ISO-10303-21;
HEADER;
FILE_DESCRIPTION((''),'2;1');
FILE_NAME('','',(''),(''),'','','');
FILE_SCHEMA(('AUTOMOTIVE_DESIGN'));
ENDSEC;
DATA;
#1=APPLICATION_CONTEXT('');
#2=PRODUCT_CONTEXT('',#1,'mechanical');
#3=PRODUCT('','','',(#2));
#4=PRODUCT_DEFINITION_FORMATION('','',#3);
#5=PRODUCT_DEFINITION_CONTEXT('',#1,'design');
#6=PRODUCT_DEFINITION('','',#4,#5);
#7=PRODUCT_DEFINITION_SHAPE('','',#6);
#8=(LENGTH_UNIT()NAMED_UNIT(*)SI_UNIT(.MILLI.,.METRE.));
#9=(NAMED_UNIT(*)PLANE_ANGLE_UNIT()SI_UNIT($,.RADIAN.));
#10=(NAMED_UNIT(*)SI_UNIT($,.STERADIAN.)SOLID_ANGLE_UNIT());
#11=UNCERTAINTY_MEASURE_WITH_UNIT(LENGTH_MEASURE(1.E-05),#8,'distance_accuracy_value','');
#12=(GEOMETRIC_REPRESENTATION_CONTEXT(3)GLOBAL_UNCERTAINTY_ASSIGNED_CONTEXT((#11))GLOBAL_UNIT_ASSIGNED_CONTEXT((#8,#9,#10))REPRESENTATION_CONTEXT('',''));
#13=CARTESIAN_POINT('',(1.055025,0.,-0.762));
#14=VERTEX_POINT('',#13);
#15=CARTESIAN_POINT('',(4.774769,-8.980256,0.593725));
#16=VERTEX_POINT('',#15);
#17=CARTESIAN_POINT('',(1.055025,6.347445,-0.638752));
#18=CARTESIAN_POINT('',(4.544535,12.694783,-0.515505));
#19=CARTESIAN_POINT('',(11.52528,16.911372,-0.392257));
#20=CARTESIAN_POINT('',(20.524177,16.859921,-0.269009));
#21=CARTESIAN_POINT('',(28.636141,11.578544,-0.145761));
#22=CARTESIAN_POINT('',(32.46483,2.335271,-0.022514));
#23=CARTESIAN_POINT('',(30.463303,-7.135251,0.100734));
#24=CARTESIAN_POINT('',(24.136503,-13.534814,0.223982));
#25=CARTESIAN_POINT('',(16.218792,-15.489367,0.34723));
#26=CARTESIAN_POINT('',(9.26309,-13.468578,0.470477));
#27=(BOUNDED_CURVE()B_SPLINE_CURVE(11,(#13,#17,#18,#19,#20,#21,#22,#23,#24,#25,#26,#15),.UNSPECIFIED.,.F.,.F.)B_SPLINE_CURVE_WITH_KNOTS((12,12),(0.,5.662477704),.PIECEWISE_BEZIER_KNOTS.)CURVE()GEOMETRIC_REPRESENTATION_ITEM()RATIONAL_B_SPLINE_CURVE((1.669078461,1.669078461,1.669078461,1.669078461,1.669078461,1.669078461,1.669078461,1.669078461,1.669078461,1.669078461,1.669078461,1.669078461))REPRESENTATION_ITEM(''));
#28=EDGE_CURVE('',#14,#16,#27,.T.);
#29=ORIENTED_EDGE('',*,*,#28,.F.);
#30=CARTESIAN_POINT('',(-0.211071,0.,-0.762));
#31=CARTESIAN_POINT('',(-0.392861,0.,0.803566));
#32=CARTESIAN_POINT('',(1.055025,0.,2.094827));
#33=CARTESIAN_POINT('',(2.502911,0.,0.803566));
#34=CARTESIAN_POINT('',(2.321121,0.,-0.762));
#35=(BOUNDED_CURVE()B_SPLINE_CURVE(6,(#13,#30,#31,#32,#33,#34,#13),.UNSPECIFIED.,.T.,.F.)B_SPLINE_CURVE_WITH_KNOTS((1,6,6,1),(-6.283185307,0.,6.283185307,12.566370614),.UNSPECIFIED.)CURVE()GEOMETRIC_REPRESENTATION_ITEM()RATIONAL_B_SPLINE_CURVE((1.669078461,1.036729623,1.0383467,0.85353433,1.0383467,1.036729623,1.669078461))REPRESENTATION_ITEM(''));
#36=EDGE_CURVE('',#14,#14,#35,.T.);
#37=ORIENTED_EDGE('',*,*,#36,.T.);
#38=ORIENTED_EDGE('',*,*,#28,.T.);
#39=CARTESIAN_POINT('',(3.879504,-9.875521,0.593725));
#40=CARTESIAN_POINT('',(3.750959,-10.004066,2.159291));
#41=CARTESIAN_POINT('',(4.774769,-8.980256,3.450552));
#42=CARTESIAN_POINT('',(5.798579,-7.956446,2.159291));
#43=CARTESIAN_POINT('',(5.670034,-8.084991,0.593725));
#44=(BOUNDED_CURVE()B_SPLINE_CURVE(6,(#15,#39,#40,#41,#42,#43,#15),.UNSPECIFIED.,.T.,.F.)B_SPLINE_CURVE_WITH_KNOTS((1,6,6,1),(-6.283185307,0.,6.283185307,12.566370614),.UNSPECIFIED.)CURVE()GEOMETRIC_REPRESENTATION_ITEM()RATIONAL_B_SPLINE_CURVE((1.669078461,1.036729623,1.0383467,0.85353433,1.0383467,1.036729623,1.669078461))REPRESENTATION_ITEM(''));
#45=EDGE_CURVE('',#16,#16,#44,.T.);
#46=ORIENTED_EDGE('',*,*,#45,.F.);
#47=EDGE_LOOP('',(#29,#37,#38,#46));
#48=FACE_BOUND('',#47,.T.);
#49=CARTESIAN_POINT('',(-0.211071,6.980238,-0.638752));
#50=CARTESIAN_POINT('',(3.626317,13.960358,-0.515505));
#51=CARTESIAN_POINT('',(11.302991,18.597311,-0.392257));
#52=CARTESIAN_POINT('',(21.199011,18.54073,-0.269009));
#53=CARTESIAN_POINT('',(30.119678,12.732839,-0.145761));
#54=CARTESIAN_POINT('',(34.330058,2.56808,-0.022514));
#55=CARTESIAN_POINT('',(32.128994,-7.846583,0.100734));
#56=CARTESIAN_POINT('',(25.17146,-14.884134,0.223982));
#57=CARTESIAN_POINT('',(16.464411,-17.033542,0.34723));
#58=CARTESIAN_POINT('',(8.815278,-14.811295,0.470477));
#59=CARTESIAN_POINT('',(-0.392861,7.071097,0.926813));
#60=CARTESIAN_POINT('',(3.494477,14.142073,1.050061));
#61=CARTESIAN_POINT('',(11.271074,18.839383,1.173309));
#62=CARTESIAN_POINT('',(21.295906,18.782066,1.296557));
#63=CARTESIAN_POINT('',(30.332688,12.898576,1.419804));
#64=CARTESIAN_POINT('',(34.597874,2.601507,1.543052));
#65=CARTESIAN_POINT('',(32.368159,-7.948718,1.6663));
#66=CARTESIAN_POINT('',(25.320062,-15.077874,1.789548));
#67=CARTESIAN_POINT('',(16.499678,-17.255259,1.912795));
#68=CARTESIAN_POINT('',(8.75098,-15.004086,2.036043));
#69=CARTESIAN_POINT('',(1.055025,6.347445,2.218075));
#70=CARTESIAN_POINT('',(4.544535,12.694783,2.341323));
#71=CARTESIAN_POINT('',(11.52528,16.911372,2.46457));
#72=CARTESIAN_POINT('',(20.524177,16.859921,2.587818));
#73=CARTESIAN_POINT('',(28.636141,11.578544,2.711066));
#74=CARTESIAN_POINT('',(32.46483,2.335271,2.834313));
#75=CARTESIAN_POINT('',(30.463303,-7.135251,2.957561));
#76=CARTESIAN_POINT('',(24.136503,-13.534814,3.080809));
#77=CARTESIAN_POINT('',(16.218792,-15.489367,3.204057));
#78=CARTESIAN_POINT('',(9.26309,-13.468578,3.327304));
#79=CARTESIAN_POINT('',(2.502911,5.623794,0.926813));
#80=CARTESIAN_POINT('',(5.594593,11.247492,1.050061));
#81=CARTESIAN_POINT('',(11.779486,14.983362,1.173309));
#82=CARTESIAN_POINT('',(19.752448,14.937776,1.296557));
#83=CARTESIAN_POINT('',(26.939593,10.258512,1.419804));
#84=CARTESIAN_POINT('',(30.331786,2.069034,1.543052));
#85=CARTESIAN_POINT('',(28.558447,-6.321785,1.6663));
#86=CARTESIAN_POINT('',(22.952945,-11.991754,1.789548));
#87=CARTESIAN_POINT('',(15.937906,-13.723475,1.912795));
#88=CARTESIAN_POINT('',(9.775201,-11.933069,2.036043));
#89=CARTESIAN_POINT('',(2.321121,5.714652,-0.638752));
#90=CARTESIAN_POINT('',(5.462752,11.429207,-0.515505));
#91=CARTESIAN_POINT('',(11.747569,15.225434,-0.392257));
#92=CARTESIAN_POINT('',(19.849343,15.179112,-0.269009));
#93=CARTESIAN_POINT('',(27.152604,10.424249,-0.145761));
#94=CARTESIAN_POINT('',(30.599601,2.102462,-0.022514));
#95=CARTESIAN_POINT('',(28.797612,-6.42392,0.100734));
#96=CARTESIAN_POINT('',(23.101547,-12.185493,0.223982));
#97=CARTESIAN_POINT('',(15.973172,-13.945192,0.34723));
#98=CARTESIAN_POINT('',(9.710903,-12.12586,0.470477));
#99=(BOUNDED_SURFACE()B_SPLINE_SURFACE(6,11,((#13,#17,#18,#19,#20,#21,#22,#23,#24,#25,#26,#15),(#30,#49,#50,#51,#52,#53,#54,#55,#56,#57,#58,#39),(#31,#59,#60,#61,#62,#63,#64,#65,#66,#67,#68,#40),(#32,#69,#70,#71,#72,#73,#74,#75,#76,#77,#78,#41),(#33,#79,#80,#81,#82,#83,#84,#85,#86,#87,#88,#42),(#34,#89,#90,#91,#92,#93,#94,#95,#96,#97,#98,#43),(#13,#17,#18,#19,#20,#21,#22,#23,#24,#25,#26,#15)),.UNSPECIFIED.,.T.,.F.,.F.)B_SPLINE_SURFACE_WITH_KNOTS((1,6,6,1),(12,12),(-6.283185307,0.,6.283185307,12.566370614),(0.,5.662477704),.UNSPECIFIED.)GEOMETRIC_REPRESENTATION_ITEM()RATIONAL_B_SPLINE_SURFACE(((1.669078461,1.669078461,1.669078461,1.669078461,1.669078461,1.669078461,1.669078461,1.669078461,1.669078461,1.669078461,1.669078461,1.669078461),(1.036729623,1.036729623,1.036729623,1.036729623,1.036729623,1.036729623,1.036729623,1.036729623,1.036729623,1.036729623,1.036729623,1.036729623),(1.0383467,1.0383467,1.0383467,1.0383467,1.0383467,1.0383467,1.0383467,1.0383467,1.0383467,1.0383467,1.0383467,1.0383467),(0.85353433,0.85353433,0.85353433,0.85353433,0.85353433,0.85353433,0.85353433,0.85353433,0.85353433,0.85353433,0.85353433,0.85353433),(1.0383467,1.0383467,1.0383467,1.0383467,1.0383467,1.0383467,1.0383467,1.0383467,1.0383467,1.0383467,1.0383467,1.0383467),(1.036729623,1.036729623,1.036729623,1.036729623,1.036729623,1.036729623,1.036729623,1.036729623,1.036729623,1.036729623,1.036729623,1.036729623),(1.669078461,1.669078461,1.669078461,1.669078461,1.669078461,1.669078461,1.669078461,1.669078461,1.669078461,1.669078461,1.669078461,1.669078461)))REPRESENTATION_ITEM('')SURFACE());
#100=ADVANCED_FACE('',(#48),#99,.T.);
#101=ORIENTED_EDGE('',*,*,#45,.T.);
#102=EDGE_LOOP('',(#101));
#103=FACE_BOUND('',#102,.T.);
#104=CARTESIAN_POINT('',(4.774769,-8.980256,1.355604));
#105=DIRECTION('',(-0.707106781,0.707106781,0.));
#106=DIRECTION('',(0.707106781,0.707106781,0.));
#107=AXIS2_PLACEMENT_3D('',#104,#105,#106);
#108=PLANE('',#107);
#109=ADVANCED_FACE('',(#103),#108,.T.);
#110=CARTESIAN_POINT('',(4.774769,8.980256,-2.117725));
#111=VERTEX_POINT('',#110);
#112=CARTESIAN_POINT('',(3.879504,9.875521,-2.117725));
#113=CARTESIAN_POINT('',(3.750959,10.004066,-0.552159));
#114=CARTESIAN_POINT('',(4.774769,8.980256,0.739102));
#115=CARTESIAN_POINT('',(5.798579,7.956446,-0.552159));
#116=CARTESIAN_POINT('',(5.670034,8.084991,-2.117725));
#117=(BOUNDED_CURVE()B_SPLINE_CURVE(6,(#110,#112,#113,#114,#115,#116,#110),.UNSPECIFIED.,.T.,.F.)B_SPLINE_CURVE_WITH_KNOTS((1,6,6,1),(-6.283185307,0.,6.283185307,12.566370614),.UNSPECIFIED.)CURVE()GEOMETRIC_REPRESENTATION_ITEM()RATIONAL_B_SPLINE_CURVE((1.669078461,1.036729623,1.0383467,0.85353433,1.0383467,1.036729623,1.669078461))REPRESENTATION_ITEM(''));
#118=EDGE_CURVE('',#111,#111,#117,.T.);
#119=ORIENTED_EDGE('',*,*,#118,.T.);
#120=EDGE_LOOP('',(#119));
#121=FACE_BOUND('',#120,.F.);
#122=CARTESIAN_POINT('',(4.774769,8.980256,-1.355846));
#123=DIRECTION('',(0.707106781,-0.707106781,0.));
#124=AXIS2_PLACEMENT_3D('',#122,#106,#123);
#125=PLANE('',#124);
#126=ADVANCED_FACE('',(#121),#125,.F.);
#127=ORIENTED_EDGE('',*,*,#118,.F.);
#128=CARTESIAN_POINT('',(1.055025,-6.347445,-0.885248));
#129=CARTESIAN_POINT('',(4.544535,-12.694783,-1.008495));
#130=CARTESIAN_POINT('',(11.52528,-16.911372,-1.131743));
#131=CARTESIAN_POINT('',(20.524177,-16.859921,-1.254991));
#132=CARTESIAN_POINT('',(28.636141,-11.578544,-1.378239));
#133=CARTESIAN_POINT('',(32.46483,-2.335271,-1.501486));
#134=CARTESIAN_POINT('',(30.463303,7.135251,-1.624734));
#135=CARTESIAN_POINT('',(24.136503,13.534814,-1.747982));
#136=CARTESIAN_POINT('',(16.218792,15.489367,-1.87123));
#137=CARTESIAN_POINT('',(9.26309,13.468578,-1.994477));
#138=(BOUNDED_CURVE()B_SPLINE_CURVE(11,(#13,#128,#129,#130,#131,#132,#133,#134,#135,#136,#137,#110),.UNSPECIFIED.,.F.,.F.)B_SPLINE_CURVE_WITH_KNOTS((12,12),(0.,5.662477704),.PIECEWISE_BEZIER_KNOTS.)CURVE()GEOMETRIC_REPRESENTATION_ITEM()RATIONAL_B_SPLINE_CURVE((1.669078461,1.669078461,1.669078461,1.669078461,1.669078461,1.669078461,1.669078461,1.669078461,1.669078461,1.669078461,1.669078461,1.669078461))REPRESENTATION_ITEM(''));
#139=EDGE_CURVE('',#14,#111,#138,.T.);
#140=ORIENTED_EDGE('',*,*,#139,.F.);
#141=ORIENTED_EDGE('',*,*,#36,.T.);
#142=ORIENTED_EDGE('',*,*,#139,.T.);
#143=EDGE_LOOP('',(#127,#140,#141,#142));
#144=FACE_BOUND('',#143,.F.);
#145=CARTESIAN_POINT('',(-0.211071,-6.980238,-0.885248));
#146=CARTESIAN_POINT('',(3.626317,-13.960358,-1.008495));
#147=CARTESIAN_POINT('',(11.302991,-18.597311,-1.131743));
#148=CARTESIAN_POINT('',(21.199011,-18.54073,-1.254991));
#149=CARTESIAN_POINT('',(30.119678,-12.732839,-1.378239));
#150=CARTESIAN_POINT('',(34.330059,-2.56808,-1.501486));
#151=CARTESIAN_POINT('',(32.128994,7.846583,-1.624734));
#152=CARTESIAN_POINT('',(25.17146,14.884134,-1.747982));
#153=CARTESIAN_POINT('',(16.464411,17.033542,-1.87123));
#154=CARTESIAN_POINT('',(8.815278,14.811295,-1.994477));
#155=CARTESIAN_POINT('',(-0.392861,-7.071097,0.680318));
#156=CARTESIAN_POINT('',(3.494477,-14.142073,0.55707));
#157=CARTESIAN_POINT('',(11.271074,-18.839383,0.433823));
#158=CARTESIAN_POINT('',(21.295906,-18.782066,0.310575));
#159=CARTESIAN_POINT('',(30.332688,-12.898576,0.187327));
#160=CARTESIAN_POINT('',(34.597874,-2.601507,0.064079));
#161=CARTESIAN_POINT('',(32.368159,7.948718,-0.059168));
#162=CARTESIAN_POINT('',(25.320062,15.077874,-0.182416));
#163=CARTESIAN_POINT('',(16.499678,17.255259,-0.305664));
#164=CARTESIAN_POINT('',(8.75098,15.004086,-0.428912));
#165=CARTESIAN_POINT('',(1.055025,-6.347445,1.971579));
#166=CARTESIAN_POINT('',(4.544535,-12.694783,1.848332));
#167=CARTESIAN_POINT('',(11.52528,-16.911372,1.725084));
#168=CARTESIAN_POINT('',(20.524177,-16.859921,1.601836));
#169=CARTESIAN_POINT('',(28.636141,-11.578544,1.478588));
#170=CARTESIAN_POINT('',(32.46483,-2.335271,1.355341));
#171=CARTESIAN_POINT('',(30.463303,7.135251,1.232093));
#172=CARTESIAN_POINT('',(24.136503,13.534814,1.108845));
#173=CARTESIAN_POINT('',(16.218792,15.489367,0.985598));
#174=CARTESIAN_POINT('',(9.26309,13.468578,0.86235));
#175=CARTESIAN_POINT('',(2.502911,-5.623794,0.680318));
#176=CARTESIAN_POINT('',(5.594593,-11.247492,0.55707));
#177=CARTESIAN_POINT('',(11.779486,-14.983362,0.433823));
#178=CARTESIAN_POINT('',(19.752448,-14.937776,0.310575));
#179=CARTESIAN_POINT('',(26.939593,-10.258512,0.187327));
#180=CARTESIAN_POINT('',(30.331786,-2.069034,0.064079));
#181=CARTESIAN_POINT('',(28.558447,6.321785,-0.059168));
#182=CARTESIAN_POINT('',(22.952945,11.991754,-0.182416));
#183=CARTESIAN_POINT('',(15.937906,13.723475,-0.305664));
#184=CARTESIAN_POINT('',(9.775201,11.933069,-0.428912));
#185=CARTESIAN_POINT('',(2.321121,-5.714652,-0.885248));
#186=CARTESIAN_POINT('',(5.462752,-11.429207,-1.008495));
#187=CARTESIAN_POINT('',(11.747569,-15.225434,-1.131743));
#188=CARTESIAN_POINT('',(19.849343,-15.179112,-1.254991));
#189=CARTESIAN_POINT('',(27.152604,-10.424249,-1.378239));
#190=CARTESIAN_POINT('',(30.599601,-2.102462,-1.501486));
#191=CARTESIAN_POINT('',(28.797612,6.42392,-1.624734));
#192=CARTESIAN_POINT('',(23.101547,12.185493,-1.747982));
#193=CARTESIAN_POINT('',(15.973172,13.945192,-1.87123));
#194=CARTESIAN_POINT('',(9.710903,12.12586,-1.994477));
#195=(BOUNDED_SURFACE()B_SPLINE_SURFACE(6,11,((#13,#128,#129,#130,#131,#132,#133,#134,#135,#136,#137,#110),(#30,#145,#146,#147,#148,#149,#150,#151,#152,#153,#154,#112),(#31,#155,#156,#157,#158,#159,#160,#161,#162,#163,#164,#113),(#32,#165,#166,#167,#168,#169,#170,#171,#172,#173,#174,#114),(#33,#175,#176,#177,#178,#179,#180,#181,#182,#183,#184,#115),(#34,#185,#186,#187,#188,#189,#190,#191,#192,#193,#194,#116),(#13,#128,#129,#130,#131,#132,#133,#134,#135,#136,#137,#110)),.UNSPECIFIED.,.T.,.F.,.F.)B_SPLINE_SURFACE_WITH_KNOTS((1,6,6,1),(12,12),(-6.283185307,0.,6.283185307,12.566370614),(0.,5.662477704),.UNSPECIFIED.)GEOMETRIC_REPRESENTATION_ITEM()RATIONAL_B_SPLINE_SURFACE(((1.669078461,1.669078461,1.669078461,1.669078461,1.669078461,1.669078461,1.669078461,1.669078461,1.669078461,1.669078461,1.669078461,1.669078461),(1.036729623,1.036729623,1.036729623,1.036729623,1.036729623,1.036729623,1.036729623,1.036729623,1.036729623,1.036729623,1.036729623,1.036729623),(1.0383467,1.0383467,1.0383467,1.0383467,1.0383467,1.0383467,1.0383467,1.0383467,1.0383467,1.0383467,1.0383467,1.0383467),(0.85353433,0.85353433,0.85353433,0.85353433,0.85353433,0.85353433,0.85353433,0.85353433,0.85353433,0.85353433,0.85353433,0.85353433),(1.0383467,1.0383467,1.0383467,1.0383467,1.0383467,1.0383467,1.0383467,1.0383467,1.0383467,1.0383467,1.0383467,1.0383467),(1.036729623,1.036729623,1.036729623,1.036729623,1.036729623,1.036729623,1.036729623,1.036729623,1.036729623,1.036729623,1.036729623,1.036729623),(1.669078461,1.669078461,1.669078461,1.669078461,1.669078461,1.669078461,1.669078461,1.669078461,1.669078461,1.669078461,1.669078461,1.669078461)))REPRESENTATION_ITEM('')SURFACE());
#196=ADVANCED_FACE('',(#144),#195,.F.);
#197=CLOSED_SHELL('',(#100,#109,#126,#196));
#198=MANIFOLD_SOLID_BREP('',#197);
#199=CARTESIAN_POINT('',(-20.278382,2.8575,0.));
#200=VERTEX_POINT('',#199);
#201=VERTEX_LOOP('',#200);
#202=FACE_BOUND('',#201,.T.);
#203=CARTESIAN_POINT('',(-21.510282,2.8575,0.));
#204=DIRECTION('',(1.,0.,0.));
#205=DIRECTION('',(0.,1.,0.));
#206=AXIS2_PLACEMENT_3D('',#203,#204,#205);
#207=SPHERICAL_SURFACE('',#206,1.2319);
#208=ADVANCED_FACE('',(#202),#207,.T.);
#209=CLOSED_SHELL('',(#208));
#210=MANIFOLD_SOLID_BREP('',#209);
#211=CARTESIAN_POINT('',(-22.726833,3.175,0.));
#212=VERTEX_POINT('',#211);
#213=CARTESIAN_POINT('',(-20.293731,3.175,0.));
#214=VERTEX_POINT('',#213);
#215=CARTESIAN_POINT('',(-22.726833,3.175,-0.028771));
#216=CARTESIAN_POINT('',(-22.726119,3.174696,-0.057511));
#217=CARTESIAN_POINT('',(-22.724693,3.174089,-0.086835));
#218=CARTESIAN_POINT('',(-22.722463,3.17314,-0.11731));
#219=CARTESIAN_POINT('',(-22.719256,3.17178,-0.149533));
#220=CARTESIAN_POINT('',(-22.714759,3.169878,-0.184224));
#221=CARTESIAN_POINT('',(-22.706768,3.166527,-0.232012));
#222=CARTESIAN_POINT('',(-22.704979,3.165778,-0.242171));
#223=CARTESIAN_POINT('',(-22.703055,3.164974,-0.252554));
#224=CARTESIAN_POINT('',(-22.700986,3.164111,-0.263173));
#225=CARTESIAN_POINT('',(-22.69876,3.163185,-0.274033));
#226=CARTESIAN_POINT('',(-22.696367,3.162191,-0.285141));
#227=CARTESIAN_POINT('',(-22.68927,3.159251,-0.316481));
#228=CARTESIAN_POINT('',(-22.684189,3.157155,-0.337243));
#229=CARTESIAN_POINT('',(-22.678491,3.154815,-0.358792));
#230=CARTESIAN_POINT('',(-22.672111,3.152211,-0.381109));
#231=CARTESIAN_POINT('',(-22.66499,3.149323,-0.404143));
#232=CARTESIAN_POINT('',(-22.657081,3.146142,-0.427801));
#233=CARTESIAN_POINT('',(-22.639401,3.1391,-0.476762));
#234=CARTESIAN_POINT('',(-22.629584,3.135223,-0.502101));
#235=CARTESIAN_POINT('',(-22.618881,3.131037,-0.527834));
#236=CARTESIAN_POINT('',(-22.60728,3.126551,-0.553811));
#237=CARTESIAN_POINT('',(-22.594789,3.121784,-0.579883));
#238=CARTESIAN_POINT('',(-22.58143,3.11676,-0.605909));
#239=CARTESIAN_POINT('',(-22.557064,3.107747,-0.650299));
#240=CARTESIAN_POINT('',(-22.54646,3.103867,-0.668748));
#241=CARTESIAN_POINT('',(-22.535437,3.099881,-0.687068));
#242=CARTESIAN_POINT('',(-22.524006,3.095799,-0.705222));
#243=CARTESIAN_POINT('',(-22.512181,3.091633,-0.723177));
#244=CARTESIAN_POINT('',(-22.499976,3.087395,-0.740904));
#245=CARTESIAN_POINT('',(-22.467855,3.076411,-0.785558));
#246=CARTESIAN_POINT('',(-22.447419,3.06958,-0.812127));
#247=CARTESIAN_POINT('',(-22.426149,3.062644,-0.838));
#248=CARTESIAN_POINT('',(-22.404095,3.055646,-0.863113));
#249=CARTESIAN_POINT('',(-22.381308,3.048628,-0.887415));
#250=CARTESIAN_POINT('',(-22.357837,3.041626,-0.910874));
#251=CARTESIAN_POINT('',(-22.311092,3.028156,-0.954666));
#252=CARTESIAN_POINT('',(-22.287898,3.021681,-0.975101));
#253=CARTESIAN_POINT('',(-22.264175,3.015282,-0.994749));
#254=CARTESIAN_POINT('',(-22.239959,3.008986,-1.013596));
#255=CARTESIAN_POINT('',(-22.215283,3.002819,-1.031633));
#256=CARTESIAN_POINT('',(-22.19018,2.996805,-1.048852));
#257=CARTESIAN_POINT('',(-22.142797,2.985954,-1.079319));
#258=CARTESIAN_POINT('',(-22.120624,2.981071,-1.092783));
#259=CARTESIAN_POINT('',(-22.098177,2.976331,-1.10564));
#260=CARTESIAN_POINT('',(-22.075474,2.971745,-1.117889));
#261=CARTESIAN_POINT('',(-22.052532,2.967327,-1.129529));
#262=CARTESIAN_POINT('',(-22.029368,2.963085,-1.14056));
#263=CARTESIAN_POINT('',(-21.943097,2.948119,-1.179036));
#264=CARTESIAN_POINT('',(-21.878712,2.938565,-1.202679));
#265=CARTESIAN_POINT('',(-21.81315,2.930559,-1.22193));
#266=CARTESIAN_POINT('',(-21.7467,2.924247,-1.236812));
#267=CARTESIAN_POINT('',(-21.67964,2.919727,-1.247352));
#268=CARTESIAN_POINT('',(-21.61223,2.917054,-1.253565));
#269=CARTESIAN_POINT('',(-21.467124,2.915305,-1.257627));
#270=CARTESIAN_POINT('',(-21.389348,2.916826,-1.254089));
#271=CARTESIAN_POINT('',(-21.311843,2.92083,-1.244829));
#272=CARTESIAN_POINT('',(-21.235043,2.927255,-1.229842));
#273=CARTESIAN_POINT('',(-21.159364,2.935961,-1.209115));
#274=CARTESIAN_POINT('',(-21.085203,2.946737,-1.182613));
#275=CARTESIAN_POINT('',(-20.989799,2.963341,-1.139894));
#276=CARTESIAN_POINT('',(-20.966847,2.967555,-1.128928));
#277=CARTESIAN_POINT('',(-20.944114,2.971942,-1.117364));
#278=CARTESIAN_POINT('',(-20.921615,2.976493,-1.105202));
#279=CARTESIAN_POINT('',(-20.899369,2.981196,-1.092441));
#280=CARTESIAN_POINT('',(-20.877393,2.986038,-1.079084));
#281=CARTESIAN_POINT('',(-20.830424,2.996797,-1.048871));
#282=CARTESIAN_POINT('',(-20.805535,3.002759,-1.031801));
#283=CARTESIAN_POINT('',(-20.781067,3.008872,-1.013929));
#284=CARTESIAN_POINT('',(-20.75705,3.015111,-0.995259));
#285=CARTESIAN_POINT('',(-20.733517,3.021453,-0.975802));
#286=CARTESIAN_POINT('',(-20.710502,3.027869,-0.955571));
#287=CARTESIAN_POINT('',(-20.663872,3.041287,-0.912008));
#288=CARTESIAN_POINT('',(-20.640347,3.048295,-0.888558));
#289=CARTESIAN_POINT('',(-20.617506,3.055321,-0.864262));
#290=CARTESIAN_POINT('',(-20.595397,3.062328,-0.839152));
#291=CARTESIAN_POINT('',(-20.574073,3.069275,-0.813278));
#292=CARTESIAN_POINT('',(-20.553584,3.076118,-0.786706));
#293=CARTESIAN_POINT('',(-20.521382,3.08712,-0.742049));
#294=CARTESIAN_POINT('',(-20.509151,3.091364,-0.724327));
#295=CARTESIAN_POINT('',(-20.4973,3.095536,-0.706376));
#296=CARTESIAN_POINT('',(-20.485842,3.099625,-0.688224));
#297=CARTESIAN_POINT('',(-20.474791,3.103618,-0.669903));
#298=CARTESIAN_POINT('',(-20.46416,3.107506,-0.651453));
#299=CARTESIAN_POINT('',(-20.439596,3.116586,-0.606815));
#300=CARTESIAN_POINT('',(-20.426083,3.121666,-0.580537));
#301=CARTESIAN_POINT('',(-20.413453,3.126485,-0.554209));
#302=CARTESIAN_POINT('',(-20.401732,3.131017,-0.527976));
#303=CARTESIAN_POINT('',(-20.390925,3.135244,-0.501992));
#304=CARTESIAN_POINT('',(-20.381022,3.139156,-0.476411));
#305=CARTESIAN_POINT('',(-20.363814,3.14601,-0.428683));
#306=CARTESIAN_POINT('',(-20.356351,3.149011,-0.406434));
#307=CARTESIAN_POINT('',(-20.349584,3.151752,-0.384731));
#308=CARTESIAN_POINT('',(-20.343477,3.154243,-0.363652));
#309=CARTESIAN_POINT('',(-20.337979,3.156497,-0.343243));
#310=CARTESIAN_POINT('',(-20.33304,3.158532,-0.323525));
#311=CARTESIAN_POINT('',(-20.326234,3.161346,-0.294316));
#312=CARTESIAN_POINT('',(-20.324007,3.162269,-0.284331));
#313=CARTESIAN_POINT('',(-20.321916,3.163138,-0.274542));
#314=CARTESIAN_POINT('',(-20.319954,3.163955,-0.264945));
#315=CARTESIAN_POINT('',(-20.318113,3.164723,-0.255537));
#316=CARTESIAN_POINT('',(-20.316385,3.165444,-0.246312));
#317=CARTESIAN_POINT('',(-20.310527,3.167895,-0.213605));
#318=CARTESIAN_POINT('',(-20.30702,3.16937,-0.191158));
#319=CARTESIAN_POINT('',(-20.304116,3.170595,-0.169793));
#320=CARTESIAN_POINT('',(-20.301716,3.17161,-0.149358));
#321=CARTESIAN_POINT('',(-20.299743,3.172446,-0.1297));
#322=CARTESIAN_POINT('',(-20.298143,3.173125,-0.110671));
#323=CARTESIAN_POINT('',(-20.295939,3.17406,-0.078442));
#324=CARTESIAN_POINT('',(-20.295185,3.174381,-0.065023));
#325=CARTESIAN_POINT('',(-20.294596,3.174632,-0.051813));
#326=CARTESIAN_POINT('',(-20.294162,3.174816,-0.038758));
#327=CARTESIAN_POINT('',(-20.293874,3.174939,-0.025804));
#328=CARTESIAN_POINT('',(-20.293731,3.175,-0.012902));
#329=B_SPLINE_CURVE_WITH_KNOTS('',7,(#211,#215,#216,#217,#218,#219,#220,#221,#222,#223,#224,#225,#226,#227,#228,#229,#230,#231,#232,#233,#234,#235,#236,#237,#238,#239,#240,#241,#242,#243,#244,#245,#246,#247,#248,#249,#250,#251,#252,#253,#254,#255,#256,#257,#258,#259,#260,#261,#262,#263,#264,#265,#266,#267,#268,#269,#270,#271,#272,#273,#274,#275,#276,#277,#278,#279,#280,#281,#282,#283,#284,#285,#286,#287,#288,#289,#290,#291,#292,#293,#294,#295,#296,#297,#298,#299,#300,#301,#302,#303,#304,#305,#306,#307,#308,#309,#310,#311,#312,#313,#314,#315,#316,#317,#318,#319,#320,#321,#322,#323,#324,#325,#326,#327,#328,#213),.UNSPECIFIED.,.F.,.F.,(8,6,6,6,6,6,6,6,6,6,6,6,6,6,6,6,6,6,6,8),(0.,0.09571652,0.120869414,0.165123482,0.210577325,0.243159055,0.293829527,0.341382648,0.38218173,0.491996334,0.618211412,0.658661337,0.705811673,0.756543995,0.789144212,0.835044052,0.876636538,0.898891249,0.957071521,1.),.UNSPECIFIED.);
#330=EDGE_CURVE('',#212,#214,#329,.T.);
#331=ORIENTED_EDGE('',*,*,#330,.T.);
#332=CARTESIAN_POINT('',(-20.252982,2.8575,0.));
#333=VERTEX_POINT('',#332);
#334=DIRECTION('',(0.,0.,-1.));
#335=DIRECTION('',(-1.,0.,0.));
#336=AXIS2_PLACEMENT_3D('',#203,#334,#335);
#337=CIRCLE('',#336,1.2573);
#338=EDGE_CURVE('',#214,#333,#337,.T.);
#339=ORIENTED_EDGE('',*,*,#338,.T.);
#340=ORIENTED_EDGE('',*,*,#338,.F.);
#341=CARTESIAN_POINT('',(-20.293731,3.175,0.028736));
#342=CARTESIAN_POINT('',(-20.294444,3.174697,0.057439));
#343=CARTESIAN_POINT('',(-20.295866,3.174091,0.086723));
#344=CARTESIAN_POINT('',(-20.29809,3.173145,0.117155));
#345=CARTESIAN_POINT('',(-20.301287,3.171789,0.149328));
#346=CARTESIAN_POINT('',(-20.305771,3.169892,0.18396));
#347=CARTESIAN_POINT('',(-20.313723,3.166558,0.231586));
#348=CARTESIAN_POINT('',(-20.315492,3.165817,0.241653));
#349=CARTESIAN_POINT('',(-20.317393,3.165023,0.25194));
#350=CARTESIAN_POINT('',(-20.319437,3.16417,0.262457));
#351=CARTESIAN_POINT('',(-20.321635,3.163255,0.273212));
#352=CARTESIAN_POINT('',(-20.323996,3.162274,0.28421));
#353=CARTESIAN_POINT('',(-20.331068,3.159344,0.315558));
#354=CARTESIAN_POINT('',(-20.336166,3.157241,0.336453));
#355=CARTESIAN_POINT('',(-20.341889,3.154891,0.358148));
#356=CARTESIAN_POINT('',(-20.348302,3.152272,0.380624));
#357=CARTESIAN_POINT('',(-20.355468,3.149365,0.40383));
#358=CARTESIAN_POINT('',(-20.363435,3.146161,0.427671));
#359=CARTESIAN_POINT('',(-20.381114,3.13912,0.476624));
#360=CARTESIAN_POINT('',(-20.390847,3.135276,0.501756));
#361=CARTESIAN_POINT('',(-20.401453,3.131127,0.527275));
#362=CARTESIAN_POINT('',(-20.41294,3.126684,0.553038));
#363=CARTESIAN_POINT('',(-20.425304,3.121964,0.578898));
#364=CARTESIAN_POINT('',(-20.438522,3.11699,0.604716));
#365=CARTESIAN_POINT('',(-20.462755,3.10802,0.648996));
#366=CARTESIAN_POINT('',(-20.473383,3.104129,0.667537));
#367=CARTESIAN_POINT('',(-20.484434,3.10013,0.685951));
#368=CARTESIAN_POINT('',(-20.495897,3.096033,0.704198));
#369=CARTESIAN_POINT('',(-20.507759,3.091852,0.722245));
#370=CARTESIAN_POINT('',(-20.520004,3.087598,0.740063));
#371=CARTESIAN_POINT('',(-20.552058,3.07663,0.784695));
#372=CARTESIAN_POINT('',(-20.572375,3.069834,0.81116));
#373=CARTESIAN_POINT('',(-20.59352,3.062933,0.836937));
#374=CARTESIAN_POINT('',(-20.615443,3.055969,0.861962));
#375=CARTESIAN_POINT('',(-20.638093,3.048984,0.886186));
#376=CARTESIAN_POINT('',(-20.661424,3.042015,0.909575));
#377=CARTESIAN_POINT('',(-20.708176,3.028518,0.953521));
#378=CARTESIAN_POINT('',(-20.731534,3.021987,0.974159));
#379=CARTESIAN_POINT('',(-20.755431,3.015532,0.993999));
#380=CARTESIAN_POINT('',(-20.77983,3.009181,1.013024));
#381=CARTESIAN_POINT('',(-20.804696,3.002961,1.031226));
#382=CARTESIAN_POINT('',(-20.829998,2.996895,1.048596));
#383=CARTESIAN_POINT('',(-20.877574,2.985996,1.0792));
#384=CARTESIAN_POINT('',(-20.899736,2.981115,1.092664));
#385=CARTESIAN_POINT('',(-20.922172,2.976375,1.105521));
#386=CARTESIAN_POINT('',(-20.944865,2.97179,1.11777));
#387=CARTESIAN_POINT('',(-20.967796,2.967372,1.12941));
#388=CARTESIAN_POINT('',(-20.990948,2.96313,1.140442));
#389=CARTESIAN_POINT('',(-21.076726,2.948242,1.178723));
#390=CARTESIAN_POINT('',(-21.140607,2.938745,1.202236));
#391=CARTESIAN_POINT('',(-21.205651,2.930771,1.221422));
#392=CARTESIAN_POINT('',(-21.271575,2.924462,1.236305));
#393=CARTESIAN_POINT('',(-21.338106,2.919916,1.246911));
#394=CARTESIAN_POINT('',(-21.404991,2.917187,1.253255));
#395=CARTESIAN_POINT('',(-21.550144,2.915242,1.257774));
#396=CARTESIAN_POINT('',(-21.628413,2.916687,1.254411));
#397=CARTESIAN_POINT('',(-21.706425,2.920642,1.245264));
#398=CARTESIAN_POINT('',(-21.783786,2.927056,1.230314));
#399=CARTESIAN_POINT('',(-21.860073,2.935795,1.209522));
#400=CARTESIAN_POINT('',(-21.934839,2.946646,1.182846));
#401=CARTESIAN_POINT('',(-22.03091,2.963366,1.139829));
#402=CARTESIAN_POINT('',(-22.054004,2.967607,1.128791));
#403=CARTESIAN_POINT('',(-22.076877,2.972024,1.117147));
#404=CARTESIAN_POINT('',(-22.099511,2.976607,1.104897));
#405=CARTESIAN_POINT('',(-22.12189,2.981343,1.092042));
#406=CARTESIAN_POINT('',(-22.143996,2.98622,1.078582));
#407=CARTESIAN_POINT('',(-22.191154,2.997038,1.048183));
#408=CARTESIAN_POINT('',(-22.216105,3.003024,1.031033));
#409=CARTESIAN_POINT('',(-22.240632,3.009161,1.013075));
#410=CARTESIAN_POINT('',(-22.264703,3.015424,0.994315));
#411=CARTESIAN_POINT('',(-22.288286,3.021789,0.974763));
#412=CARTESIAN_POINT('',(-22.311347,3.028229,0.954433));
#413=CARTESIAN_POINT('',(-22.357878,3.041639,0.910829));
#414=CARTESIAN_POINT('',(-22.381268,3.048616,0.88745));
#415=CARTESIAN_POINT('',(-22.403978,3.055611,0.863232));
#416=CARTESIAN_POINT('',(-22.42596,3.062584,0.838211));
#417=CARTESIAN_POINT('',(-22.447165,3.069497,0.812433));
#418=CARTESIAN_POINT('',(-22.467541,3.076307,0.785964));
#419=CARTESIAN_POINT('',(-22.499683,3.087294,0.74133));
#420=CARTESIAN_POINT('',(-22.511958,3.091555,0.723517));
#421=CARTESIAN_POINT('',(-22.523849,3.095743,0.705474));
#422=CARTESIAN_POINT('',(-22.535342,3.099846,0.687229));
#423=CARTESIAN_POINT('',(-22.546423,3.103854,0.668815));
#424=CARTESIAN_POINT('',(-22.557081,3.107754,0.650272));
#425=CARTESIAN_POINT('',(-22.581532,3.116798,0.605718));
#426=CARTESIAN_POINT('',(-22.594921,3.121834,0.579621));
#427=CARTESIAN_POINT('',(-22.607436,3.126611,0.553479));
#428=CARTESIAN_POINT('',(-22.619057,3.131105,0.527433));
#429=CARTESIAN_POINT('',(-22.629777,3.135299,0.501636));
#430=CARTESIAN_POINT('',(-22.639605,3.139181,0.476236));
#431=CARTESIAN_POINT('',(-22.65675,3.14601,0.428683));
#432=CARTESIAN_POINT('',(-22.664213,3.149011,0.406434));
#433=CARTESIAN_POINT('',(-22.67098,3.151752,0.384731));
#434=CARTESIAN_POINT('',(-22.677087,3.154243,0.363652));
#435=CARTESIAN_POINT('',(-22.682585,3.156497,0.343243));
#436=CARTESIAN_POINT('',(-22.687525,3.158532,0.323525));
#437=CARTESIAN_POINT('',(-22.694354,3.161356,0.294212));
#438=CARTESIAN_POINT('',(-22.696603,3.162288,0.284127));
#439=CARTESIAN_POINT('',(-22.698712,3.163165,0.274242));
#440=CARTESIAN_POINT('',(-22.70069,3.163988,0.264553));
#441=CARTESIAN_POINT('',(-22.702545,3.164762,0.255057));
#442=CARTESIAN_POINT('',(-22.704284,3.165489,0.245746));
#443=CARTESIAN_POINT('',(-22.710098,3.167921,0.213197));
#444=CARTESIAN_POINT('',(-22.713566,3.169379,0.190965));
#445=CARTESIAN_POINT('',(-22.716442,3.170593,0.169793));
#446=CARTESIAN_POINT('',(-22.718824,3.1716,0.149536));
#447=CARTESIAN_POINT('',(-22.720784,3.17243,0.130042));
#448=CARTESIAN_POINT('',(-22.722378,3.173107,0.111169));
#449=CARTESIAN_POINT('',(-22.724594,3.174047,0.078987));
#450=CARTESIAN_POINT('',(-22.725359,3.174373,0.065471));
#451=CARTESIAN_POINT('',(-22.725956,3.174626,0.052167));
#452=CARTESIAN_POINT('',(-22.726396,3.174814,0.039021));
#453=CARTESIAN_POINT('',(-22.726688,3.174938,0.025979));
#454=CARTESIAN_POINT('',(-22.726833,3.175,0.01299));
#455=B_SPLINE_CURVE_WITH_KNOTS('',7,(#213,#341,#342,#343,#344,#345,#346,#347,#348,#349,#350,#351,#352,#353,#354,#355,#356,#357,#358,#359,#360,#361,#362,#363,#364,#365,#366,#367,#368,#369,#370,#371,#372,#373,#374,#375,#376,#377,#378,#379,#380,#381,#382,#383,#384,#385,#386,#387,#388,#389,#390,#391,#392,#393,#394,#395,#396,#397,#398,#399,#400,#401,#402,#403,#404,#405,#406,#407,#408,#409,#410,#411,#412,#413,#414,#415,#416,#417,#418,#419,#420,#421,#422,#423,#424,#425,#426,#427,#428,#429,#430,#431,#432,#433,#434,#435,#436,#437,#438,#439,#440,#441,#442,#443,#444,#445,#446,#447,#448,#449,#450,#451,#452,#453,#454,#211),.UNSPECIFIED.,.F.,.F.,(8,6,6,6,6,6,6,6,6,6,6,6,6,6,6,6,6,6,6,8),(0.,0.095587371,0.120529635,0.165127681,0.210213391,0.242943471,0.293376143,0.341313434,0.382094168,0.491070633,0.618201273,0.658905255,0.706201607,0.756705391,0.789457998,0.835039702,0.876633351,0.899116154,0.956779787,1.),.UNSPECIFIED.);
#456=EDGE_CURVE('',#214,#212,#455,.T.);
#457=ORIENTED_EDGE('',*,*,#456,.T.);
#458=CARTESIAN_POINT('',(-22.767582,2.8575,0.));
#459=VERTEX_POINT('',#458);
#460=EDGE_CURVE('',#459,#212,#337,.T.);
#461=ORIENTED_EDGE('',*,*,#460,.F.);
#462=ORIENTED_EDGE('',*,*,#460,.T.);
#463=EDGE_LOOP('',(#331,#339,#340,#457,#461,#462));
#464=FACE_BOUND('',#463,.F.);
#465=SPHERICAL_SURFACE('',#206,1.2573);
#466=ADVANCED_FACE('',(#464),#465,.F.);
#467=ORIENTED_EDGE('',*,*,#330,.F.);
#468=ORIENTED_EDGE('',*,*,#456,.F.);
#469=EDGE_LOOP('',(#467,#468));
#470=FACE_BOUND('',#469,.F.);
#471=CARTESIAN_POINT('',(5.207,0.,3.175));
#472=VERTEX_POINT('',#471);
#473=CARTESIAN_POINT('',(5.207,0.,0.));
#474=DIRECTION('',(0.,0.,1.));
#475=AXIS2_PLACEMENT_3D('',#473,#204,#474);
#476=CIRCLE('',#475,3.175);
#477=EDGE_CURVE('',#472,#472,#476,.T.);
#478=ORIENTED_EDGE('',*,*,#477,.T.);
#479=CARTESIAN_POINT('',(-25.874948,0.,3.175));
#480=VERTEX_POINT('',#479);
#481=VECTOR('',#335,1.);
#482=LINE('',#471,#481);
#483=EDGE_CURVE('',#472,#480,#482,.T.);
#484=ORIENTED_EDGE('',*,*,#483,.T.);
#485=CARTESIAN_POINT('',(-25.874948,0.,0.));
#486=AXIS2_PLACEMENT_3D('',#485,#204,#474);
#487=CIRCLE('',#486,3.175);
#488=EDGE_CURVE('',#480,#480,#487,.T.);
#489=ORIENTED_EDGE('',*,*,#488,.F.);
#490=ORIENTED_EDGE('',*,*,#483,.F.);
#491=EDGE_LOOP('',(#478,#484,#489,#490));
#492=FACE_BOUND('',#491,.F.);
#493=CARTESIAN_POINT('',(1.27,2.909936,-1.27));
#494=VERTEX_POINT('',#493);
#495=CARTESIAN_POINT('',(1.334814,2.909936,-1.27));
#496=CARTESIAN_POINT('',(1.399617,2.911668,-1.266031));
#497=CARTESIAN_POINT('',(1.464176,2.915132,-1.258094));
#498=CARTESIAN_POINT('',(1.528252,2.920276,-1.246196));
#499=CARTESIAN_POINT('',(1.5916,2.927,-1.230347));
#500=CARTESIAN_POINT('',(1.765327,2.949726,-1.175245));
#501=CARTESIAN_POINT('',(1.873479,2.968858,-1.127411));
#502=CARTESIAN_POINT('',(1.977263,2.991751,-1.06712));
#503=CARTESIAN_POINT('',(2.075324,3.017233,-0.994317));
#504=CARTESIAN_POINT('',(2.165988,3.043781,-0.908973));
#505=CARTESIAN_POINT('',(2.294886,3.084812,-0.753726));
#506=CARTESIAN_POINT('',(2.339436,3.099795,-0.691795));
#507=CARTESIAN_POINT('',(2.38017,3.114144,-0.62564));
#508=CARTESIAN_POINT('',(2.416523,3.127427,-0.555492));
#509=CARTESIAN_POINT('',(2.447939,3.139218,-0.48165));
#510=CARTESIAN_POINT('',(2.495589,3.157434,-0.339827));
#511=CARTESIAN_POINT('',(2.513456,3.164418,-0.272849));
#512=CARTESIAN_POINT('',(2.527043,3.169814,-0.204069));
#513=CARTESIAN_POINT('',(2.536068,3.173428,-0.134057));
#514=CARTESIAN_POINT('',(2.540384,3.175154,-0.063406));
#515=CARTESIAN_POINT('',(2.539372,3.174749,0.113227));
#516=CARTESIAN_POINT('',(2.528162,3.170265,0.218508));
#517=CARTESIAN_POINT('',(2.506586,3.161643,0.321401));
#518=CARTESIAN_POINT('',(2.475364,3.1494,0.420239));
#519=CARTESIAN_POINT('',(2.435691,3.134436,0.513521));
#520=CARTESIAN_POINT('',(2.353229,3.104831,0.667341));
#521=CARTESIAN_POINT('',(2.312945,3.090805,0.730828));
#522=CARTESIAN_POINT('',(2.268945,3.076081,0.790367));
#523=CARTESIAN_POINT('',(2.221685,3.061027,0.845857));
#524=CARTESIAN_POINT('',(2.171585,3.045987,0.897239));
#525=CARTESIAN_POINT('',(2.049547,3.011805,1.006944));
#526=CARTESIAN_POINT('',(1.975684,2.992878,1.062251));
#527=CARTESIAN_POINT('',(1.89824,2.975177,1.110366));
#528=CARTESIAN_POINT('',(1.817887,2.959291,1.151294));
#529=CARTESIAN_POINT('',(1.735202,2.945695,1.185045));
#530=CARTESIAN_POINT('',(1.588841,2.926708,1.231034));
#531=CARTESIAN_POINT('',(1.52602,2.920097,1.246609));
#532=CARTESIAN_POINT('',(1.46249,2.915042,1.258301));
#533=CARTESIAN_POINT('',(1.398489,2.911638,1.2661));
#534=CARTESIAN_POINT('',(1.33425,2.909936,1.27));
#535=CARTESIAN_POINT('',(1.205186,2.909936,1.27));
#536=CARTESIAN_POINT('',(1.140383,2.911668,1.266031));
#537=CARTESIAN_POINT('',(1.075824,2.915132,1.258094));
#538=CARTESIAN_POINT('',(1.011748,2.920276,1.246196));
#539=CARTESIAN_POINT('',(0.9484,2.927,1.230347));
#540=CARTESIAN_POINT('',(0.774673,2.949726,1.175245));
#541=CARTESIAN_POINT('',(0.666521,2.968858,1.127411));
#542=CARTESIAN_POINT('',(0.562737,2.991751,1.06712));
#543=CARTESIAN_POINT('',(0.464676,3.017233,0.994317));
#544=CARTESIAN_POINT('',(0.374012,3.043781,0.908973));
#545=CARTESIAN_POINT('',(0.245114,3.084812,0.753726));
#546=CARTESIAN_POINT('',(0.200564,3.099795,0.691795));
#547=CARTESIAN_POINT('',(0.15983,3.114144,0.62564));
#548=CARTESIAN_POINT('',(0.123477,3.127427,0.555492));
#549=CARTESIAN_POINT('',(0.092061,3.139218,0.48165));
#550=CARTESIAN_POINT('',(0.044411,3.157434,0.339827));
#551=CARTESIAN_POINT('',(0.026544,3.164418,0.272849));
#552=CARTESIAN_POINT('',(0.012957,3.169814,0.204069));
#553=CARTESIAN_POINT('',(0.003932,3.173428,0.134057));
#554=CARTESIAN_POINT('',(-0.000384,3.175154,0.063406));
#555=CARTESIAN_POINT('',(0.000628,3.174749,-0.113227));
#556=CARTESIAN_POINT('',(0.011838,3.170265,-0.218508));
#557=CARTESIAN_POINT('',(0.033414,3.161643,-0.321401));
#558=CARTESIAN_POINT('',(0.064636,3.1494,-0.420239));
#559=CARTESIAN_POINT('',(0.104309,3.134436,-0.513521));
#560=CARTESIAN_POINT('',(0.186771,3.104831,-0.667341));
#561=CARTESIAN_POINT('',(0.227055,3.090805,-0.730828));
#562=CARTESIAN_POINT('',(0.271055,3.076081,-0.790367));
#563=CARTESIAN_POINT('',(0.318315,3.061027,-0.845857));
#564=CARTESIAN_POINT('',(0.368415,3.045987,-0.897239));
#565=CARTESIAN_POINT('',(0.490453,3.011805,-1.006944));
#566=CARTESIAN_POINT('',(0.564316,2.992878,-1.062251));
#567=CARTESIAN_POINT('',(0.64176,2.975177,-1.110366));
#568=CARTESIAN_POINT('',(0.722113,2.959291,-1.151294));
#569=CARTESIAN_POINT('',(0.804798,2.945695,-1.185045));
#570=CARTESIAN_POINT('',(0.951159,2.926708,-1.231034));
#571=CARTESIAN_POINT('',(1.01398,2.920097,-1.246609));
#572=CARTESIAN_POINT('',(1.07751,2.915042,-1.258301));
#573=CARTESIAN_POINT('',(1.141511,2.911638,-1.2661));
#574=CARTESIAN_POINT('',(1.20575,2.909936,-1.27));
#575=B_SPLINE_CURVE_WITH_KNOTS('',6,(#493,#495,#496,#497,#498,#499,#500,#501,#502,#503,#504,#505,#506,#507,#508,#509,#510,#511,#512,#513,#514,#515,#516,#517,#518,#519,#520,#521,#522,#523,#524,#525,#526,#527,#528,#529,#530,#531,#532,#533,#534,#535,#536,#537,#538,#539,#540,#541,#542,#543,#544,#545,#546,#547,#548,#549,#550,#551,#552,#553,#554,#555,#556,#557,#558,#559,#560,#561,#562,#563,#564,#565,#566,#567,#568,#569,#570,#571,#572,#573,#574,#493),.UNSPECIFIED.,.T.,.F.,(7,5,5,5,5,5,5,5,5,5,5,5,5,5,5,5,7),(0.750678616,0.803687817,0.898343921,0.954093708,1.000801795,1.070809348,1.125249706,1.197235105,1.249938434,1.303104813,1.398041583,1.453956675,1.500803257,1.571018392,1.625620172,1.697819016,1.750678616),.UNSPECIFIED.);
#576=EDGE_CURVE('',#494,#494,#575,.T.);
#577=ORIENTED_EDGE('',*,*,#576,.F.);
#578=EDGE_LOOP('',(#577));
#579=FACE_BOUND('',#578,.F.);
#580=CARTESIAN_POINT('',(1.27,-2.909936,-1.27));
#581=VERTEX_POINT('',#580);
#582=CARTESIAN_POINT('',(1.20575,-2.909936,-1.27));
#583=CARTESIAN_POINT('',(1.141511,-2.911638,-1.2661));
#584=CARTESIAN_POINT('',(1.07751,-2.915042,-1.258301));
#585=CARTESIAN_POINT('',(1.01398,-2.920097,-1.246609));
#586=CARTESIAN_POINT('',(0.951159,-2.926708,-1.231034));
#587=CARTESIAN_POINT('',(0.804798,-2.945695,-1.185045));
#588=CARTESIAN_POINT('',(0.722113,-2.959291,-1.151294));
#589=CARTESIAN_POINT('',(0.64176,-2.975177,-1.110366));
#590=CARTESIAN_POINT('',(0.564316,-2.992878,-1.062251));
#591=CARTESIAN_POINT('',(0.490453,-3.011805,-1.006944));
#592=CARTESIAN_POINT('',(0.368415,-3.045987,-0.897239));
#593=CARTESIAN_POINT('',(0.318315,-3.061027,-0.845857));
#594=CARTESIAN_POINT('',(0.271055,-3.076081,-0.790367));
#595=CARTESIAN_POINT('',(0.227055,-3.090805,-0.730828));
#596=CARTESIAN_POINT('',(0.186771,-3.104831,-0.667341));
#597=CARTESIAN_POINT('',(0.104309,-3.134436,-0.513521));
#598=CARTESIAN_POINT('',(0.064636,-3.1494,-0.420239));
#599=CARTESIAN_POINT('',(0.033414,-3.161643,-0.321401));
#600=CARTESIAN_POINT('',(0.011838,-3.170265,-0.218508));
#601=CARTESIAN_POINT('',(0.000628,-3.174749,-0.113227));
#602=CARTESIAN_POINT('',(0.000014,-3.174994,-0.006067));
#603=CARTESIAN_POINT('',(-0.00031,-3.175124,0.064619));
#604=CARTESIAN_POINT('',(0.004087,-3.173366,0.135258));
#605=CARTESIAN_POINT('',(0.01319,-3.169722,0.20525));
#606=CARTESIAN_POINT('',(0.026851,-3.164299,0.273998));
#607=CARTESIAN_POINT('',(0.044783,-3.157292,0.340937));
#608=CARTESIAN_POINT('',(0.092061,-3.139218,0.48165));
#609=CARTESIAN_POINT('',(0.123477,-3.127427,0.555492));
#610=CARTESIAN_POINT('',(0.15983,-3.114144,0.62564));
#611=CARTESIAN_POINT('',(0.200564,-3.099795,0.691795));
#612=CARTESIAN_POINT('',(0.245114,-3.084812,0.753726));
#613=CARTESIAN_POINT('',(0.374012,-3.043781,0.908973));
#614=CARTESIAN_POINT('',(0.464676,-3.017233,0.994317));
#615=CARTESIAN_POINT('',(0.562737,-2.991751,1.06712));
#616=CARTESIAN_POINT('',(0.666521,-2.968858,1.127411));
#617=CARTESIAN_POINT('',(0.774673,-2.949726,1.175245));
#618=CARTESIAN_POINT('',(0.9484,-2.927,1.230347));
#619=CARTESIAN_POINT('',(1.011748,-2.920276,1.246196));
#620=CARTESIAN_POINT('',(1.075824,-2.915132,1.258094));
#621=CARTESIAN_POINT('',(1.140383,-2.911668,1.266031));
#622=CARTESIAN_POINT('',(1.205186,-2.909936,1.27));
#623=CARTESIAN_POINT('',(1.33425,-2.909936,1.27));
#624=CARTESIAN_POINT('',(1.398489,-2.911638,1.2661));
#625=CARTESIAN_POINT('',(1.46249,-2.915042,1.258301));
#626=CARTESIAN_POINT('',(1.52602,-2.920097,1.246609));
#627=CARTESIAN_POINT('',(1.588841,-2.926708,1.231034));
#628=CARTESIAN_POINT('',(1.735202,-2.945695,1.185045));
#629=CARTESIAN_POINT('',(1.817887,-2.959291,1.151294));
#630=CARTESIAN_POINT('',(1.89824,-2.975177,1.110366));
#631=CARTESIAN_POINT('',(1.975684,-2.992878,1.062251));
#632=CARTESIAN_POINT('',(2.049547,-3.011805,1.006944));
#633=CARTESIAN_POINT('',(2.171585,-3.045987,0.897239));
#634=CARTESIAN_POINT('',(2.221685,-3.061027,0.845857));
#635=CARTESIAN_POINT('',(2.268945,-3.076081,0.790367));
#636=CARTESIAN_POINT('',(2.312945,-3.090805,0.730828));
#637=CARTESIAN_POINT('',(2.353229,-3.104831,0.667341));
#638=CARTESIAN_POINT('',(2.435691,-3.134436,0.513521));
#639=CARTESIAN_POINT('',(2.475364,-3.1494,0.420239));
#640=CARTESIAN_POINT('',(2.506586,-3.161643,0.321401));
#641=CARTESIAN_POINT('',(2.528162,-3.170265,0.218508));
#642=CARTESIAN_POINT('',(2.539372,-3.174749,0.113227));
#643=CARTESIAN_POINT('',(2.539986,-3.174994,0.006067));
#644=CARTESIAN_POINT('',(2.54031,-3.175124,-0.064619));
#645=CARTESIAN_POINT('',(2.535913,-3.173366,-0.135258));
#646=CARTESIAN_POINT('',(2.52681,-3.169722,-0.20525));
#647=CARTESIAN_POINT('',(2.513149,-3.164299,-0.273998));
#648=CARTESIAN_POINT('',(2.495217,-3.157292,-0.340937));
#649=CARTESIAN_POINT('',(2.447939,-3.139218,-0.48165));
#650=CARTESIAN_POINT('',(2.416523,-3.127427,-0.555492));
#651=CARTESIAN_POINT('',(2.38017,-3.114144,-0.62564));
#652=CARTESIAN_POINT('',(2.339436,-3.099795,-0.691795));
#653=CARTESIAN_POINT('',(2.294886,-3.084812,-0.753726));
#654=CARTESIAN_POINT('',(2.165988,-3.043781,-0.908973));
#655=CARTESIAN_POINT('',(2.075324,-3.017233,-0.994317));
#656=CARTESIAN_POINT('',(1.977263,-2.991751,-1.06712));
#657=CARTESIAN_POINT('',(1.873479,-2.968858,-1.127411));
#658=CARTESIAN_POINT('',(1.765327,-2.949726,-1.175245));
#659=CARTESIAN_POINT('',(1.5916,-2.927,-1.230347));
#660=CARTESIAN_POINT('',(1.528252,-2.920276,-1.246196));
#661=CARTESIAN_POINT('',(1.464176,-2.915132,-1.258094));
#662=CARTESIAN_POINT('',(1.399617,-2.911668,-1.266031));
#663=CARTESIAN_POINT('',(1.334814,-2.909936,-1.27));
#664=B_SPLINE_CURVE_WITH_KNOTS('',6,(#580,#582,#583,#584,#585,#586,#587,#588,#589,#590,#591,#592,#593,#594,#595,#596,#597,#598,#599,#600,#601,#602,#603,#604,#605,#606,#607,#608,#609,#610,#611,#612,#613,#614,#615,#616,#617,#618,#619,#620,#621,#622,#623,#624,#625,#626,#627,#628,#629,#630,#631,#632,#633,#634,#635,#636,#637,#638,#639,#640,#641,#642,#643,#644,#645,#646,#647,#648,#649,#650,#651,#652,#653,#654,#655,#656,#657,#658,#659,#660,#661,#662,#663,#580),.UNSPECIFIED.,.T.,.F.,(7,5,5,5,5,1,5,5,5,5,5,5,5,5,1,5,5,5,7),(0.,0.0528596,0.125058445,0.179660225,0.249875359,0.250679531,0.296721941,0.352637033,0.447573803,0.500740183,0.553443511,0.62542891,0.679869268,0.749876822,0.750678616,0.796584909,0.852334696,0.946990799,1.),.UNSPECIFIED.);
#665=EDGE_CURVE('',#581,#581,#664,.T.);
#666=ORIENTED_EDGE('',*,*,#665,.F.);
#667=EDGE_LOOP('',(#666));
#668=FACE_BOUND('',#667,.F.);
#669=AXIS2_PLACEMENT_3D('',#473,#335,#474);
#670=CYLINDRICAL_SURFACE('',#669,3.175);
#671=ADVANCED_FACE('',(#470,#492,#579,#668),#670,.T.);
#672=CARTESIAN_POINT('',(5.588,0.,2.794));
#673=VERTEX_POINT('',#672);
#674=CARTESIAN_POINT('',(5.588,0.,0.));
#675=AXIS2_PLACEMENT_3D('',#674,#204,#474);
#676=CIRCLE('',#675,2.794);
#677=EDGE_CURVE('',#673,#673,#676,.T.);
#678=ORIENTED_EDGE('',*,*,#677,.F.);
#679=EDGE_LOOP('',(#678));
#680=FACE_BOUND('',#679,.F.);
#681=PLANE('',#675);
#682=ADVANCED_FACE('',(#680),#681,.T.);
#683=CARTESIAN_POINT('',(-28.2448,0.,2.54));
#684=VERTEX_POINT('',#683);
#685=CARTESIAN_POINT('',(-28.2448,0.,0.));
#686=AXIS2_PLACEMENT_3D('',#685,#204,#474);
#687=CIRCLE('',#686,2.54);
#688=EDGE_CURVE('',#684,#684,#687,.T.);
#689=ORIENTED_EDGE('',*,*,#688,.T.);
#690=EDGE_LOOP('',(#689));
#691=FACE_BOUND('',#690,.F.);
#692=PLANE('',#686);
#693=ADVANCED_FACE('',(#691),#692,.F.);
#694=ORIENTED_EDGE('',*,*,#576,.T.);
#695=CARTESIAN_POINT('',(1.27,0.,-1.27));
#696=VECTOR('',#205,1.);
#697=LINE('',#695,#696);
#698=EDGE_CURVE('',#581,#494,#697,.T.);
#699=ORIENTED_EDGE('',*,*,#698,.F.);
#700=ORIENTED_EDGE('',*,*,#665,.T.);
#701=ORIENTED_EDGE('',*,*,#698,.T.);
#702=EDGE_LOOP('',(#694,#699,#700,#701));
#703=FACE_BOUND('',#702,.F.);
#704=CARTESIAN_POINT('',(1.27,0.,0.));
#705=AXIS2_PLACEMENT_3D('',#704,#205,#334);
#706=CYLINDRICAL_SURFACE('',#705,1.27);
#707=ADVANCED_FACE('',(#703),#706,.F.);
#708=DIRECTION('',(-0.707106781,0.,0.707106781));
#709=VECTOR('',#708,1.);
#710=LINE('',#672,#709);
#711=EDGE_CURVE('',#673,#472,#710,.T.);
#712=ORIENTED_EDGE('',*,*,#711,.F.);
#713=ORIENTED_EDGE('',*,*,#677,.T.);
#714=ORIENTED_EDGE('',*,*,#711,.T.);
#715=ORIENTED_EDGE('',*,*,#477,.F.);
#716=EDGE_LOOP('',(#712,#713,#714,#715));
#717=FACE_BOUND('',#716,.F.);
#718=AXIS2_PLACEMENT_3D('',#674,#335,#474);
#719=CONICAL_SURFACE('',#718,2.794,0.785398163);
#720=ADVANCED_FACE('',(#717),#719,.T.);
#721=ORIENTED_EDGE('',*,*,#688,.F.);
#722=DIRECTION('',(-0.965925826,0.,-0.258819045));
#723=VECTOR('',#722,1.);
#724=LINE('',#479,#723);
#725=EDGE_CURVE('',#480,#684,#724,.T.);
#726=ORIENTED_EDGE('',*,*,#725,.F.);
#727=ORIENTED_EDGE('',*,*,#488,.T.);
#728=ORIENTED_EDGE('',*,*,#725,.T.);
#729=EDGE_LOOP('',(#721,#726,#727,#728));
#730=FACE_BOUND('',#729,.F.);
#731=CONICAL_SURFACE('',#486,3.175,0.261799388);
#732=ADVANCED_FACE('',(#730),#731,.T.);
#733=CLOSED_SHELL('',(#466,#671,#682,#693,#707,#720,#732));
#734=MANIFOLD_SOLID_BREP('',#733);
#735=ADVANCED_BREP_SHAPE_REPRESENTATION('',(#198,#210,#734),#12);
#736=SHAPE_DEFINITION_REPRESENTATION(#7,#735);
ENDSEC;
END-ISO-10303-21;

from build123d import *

# Parameters (mm, degrees)
SKETCH4_W          = 1.27
SKETCH4_H          = 6.35
SWEEP1_PITCH       = 1.5494
SWEEP1_HEIGHT      = 1.355725
SWEEP1_RADIUS      = 13.462
SKETCH6_R          = 0.762
SWEEP2_PITCH       = 1.5494
SWEEP2_HEIGHT      = 1.355725
SWEEP2_RADIUS      = 13.462
SWEEP2_START_ANGLE = -180
SKETCH6_2_R        = 0.762


with BuildPart() as part:
    # Sketch1 → Revolve1 (revolve)
    with BuildSketch(Plane.XY, mode=Mode.PRIVATE) as revolve1_sk:
        Polygon((5.588, 2.794), (5.207, 3.175), (-25.874947737, 3.175), (-28.2448, 2.54), (-28.2448, 0), (5.588, 0), align=None)
    revolve(revolve1_sk.sketch.rotate(Axis((5.588, 0, 0), (1, 0, 0)), 90), axis=Axis((5.588, 0, 0), (1, 0, 0)))

    # Sketch2 → Cut-Revolve1 (revolve, cut)
    with BuildSketch(Plane.XY):
        with BuildLine():
            Line((-20.252982051, 2.8575), (-22.767582051, 2.8575))
            ThreePointArc((-22.767582051, 2.8575), (-21.510282051, 4.1148), (-20.252982051, 2.8575))
        make_face()
    revolve(axis=Axis((-20.252982051, 2.8575, 0), (1, 0, 0)), mode=Mode.SUBTRACT)

    # Sketch4 → Cut-Revolve2 (revolve, cut)
    with BuildSketch(Plane.XY, mode=Mode.PRIVATE) as cut_revolve2_sk:
        with Locations((1.905, 0)):
            Rectangle(SKETCH4_W, SKETCH4_H)
    revolve(cut_revolve2_sk.sketch.rotate(Axis((1.27, -3.175, 0), (0, 1, 0)), 90), axis=Axis((1.27, -3.175, 0), (0, 1, 0)), mode=Mode.SUBTRACT)


with BuildPart() as body_2:
    # Sketch3 → Revolve2 (revolve)
    with BuildSketch(Plane.XY):
        with BuildLine():
            Line((-20.278382051, 2.8575), (-22.742182051, 2.8575))
            ThreePointArc((-22.742182051, 2.8575), (-21.510282051, 4.0894), (-20.278382051, 2.8575))
        make_face()
    revolve(axis=Axis((-20.278382051, 2.8575, 0), (1, 0, 0)))


with BuildPart() as body_3:
    # Sweep1: sweep along a helix
    with BuildLine() as sweep1_path:
        Helix(SWEEP1_PITCH, SWEEP1_HEIGHT, SWEEP1_RADIUS, center=(13.755025091, 0, 0), direction=(0, 0, -1), lefthand=True)
    # Sketch6 → Sweep1 (sweep)
    with BuildSketch(Plane(origin=(114.003847968, 0, 0), x_dir=(0, 0, -1), z_dir=(0, 1, 0))):
        with Locations((0, 112.948822877)):
            Circle(SKETCH6_R)
    sweep(path=sweep1_path.line, is_frenet=True)

    # Sweep2: sweep along a helix
    with BuildLine() as sweep2_path:
        add(Helix(SWEEP2_PITCH, SWEEP2_HEIGHT, SWEEP2_RADIUS, center=(13.755025091, 0, 0), direction=(0, 0, 1), lefthand=True, mode=Mode.PRIVATE).rotate(Axis((13.755025091, 0, 0), (0, 0, 1)), SWEEP2_START_ANGLE))
    # Sketch6<2> → Sweep2 (sweep)
    with BuildSketch(Plane(origin=(114.003847968, 0, 0), x_dir=(0, 0, -1), z_dir=(0, 1, 0))):
        with Locations((0, 112.948822877)):
            Circle(SKETCH6_2_R)
    sweep(path=sweep2_path.line, is_frenet=True)


solid = Compound([part.part, body_2.part, body_3.part])
